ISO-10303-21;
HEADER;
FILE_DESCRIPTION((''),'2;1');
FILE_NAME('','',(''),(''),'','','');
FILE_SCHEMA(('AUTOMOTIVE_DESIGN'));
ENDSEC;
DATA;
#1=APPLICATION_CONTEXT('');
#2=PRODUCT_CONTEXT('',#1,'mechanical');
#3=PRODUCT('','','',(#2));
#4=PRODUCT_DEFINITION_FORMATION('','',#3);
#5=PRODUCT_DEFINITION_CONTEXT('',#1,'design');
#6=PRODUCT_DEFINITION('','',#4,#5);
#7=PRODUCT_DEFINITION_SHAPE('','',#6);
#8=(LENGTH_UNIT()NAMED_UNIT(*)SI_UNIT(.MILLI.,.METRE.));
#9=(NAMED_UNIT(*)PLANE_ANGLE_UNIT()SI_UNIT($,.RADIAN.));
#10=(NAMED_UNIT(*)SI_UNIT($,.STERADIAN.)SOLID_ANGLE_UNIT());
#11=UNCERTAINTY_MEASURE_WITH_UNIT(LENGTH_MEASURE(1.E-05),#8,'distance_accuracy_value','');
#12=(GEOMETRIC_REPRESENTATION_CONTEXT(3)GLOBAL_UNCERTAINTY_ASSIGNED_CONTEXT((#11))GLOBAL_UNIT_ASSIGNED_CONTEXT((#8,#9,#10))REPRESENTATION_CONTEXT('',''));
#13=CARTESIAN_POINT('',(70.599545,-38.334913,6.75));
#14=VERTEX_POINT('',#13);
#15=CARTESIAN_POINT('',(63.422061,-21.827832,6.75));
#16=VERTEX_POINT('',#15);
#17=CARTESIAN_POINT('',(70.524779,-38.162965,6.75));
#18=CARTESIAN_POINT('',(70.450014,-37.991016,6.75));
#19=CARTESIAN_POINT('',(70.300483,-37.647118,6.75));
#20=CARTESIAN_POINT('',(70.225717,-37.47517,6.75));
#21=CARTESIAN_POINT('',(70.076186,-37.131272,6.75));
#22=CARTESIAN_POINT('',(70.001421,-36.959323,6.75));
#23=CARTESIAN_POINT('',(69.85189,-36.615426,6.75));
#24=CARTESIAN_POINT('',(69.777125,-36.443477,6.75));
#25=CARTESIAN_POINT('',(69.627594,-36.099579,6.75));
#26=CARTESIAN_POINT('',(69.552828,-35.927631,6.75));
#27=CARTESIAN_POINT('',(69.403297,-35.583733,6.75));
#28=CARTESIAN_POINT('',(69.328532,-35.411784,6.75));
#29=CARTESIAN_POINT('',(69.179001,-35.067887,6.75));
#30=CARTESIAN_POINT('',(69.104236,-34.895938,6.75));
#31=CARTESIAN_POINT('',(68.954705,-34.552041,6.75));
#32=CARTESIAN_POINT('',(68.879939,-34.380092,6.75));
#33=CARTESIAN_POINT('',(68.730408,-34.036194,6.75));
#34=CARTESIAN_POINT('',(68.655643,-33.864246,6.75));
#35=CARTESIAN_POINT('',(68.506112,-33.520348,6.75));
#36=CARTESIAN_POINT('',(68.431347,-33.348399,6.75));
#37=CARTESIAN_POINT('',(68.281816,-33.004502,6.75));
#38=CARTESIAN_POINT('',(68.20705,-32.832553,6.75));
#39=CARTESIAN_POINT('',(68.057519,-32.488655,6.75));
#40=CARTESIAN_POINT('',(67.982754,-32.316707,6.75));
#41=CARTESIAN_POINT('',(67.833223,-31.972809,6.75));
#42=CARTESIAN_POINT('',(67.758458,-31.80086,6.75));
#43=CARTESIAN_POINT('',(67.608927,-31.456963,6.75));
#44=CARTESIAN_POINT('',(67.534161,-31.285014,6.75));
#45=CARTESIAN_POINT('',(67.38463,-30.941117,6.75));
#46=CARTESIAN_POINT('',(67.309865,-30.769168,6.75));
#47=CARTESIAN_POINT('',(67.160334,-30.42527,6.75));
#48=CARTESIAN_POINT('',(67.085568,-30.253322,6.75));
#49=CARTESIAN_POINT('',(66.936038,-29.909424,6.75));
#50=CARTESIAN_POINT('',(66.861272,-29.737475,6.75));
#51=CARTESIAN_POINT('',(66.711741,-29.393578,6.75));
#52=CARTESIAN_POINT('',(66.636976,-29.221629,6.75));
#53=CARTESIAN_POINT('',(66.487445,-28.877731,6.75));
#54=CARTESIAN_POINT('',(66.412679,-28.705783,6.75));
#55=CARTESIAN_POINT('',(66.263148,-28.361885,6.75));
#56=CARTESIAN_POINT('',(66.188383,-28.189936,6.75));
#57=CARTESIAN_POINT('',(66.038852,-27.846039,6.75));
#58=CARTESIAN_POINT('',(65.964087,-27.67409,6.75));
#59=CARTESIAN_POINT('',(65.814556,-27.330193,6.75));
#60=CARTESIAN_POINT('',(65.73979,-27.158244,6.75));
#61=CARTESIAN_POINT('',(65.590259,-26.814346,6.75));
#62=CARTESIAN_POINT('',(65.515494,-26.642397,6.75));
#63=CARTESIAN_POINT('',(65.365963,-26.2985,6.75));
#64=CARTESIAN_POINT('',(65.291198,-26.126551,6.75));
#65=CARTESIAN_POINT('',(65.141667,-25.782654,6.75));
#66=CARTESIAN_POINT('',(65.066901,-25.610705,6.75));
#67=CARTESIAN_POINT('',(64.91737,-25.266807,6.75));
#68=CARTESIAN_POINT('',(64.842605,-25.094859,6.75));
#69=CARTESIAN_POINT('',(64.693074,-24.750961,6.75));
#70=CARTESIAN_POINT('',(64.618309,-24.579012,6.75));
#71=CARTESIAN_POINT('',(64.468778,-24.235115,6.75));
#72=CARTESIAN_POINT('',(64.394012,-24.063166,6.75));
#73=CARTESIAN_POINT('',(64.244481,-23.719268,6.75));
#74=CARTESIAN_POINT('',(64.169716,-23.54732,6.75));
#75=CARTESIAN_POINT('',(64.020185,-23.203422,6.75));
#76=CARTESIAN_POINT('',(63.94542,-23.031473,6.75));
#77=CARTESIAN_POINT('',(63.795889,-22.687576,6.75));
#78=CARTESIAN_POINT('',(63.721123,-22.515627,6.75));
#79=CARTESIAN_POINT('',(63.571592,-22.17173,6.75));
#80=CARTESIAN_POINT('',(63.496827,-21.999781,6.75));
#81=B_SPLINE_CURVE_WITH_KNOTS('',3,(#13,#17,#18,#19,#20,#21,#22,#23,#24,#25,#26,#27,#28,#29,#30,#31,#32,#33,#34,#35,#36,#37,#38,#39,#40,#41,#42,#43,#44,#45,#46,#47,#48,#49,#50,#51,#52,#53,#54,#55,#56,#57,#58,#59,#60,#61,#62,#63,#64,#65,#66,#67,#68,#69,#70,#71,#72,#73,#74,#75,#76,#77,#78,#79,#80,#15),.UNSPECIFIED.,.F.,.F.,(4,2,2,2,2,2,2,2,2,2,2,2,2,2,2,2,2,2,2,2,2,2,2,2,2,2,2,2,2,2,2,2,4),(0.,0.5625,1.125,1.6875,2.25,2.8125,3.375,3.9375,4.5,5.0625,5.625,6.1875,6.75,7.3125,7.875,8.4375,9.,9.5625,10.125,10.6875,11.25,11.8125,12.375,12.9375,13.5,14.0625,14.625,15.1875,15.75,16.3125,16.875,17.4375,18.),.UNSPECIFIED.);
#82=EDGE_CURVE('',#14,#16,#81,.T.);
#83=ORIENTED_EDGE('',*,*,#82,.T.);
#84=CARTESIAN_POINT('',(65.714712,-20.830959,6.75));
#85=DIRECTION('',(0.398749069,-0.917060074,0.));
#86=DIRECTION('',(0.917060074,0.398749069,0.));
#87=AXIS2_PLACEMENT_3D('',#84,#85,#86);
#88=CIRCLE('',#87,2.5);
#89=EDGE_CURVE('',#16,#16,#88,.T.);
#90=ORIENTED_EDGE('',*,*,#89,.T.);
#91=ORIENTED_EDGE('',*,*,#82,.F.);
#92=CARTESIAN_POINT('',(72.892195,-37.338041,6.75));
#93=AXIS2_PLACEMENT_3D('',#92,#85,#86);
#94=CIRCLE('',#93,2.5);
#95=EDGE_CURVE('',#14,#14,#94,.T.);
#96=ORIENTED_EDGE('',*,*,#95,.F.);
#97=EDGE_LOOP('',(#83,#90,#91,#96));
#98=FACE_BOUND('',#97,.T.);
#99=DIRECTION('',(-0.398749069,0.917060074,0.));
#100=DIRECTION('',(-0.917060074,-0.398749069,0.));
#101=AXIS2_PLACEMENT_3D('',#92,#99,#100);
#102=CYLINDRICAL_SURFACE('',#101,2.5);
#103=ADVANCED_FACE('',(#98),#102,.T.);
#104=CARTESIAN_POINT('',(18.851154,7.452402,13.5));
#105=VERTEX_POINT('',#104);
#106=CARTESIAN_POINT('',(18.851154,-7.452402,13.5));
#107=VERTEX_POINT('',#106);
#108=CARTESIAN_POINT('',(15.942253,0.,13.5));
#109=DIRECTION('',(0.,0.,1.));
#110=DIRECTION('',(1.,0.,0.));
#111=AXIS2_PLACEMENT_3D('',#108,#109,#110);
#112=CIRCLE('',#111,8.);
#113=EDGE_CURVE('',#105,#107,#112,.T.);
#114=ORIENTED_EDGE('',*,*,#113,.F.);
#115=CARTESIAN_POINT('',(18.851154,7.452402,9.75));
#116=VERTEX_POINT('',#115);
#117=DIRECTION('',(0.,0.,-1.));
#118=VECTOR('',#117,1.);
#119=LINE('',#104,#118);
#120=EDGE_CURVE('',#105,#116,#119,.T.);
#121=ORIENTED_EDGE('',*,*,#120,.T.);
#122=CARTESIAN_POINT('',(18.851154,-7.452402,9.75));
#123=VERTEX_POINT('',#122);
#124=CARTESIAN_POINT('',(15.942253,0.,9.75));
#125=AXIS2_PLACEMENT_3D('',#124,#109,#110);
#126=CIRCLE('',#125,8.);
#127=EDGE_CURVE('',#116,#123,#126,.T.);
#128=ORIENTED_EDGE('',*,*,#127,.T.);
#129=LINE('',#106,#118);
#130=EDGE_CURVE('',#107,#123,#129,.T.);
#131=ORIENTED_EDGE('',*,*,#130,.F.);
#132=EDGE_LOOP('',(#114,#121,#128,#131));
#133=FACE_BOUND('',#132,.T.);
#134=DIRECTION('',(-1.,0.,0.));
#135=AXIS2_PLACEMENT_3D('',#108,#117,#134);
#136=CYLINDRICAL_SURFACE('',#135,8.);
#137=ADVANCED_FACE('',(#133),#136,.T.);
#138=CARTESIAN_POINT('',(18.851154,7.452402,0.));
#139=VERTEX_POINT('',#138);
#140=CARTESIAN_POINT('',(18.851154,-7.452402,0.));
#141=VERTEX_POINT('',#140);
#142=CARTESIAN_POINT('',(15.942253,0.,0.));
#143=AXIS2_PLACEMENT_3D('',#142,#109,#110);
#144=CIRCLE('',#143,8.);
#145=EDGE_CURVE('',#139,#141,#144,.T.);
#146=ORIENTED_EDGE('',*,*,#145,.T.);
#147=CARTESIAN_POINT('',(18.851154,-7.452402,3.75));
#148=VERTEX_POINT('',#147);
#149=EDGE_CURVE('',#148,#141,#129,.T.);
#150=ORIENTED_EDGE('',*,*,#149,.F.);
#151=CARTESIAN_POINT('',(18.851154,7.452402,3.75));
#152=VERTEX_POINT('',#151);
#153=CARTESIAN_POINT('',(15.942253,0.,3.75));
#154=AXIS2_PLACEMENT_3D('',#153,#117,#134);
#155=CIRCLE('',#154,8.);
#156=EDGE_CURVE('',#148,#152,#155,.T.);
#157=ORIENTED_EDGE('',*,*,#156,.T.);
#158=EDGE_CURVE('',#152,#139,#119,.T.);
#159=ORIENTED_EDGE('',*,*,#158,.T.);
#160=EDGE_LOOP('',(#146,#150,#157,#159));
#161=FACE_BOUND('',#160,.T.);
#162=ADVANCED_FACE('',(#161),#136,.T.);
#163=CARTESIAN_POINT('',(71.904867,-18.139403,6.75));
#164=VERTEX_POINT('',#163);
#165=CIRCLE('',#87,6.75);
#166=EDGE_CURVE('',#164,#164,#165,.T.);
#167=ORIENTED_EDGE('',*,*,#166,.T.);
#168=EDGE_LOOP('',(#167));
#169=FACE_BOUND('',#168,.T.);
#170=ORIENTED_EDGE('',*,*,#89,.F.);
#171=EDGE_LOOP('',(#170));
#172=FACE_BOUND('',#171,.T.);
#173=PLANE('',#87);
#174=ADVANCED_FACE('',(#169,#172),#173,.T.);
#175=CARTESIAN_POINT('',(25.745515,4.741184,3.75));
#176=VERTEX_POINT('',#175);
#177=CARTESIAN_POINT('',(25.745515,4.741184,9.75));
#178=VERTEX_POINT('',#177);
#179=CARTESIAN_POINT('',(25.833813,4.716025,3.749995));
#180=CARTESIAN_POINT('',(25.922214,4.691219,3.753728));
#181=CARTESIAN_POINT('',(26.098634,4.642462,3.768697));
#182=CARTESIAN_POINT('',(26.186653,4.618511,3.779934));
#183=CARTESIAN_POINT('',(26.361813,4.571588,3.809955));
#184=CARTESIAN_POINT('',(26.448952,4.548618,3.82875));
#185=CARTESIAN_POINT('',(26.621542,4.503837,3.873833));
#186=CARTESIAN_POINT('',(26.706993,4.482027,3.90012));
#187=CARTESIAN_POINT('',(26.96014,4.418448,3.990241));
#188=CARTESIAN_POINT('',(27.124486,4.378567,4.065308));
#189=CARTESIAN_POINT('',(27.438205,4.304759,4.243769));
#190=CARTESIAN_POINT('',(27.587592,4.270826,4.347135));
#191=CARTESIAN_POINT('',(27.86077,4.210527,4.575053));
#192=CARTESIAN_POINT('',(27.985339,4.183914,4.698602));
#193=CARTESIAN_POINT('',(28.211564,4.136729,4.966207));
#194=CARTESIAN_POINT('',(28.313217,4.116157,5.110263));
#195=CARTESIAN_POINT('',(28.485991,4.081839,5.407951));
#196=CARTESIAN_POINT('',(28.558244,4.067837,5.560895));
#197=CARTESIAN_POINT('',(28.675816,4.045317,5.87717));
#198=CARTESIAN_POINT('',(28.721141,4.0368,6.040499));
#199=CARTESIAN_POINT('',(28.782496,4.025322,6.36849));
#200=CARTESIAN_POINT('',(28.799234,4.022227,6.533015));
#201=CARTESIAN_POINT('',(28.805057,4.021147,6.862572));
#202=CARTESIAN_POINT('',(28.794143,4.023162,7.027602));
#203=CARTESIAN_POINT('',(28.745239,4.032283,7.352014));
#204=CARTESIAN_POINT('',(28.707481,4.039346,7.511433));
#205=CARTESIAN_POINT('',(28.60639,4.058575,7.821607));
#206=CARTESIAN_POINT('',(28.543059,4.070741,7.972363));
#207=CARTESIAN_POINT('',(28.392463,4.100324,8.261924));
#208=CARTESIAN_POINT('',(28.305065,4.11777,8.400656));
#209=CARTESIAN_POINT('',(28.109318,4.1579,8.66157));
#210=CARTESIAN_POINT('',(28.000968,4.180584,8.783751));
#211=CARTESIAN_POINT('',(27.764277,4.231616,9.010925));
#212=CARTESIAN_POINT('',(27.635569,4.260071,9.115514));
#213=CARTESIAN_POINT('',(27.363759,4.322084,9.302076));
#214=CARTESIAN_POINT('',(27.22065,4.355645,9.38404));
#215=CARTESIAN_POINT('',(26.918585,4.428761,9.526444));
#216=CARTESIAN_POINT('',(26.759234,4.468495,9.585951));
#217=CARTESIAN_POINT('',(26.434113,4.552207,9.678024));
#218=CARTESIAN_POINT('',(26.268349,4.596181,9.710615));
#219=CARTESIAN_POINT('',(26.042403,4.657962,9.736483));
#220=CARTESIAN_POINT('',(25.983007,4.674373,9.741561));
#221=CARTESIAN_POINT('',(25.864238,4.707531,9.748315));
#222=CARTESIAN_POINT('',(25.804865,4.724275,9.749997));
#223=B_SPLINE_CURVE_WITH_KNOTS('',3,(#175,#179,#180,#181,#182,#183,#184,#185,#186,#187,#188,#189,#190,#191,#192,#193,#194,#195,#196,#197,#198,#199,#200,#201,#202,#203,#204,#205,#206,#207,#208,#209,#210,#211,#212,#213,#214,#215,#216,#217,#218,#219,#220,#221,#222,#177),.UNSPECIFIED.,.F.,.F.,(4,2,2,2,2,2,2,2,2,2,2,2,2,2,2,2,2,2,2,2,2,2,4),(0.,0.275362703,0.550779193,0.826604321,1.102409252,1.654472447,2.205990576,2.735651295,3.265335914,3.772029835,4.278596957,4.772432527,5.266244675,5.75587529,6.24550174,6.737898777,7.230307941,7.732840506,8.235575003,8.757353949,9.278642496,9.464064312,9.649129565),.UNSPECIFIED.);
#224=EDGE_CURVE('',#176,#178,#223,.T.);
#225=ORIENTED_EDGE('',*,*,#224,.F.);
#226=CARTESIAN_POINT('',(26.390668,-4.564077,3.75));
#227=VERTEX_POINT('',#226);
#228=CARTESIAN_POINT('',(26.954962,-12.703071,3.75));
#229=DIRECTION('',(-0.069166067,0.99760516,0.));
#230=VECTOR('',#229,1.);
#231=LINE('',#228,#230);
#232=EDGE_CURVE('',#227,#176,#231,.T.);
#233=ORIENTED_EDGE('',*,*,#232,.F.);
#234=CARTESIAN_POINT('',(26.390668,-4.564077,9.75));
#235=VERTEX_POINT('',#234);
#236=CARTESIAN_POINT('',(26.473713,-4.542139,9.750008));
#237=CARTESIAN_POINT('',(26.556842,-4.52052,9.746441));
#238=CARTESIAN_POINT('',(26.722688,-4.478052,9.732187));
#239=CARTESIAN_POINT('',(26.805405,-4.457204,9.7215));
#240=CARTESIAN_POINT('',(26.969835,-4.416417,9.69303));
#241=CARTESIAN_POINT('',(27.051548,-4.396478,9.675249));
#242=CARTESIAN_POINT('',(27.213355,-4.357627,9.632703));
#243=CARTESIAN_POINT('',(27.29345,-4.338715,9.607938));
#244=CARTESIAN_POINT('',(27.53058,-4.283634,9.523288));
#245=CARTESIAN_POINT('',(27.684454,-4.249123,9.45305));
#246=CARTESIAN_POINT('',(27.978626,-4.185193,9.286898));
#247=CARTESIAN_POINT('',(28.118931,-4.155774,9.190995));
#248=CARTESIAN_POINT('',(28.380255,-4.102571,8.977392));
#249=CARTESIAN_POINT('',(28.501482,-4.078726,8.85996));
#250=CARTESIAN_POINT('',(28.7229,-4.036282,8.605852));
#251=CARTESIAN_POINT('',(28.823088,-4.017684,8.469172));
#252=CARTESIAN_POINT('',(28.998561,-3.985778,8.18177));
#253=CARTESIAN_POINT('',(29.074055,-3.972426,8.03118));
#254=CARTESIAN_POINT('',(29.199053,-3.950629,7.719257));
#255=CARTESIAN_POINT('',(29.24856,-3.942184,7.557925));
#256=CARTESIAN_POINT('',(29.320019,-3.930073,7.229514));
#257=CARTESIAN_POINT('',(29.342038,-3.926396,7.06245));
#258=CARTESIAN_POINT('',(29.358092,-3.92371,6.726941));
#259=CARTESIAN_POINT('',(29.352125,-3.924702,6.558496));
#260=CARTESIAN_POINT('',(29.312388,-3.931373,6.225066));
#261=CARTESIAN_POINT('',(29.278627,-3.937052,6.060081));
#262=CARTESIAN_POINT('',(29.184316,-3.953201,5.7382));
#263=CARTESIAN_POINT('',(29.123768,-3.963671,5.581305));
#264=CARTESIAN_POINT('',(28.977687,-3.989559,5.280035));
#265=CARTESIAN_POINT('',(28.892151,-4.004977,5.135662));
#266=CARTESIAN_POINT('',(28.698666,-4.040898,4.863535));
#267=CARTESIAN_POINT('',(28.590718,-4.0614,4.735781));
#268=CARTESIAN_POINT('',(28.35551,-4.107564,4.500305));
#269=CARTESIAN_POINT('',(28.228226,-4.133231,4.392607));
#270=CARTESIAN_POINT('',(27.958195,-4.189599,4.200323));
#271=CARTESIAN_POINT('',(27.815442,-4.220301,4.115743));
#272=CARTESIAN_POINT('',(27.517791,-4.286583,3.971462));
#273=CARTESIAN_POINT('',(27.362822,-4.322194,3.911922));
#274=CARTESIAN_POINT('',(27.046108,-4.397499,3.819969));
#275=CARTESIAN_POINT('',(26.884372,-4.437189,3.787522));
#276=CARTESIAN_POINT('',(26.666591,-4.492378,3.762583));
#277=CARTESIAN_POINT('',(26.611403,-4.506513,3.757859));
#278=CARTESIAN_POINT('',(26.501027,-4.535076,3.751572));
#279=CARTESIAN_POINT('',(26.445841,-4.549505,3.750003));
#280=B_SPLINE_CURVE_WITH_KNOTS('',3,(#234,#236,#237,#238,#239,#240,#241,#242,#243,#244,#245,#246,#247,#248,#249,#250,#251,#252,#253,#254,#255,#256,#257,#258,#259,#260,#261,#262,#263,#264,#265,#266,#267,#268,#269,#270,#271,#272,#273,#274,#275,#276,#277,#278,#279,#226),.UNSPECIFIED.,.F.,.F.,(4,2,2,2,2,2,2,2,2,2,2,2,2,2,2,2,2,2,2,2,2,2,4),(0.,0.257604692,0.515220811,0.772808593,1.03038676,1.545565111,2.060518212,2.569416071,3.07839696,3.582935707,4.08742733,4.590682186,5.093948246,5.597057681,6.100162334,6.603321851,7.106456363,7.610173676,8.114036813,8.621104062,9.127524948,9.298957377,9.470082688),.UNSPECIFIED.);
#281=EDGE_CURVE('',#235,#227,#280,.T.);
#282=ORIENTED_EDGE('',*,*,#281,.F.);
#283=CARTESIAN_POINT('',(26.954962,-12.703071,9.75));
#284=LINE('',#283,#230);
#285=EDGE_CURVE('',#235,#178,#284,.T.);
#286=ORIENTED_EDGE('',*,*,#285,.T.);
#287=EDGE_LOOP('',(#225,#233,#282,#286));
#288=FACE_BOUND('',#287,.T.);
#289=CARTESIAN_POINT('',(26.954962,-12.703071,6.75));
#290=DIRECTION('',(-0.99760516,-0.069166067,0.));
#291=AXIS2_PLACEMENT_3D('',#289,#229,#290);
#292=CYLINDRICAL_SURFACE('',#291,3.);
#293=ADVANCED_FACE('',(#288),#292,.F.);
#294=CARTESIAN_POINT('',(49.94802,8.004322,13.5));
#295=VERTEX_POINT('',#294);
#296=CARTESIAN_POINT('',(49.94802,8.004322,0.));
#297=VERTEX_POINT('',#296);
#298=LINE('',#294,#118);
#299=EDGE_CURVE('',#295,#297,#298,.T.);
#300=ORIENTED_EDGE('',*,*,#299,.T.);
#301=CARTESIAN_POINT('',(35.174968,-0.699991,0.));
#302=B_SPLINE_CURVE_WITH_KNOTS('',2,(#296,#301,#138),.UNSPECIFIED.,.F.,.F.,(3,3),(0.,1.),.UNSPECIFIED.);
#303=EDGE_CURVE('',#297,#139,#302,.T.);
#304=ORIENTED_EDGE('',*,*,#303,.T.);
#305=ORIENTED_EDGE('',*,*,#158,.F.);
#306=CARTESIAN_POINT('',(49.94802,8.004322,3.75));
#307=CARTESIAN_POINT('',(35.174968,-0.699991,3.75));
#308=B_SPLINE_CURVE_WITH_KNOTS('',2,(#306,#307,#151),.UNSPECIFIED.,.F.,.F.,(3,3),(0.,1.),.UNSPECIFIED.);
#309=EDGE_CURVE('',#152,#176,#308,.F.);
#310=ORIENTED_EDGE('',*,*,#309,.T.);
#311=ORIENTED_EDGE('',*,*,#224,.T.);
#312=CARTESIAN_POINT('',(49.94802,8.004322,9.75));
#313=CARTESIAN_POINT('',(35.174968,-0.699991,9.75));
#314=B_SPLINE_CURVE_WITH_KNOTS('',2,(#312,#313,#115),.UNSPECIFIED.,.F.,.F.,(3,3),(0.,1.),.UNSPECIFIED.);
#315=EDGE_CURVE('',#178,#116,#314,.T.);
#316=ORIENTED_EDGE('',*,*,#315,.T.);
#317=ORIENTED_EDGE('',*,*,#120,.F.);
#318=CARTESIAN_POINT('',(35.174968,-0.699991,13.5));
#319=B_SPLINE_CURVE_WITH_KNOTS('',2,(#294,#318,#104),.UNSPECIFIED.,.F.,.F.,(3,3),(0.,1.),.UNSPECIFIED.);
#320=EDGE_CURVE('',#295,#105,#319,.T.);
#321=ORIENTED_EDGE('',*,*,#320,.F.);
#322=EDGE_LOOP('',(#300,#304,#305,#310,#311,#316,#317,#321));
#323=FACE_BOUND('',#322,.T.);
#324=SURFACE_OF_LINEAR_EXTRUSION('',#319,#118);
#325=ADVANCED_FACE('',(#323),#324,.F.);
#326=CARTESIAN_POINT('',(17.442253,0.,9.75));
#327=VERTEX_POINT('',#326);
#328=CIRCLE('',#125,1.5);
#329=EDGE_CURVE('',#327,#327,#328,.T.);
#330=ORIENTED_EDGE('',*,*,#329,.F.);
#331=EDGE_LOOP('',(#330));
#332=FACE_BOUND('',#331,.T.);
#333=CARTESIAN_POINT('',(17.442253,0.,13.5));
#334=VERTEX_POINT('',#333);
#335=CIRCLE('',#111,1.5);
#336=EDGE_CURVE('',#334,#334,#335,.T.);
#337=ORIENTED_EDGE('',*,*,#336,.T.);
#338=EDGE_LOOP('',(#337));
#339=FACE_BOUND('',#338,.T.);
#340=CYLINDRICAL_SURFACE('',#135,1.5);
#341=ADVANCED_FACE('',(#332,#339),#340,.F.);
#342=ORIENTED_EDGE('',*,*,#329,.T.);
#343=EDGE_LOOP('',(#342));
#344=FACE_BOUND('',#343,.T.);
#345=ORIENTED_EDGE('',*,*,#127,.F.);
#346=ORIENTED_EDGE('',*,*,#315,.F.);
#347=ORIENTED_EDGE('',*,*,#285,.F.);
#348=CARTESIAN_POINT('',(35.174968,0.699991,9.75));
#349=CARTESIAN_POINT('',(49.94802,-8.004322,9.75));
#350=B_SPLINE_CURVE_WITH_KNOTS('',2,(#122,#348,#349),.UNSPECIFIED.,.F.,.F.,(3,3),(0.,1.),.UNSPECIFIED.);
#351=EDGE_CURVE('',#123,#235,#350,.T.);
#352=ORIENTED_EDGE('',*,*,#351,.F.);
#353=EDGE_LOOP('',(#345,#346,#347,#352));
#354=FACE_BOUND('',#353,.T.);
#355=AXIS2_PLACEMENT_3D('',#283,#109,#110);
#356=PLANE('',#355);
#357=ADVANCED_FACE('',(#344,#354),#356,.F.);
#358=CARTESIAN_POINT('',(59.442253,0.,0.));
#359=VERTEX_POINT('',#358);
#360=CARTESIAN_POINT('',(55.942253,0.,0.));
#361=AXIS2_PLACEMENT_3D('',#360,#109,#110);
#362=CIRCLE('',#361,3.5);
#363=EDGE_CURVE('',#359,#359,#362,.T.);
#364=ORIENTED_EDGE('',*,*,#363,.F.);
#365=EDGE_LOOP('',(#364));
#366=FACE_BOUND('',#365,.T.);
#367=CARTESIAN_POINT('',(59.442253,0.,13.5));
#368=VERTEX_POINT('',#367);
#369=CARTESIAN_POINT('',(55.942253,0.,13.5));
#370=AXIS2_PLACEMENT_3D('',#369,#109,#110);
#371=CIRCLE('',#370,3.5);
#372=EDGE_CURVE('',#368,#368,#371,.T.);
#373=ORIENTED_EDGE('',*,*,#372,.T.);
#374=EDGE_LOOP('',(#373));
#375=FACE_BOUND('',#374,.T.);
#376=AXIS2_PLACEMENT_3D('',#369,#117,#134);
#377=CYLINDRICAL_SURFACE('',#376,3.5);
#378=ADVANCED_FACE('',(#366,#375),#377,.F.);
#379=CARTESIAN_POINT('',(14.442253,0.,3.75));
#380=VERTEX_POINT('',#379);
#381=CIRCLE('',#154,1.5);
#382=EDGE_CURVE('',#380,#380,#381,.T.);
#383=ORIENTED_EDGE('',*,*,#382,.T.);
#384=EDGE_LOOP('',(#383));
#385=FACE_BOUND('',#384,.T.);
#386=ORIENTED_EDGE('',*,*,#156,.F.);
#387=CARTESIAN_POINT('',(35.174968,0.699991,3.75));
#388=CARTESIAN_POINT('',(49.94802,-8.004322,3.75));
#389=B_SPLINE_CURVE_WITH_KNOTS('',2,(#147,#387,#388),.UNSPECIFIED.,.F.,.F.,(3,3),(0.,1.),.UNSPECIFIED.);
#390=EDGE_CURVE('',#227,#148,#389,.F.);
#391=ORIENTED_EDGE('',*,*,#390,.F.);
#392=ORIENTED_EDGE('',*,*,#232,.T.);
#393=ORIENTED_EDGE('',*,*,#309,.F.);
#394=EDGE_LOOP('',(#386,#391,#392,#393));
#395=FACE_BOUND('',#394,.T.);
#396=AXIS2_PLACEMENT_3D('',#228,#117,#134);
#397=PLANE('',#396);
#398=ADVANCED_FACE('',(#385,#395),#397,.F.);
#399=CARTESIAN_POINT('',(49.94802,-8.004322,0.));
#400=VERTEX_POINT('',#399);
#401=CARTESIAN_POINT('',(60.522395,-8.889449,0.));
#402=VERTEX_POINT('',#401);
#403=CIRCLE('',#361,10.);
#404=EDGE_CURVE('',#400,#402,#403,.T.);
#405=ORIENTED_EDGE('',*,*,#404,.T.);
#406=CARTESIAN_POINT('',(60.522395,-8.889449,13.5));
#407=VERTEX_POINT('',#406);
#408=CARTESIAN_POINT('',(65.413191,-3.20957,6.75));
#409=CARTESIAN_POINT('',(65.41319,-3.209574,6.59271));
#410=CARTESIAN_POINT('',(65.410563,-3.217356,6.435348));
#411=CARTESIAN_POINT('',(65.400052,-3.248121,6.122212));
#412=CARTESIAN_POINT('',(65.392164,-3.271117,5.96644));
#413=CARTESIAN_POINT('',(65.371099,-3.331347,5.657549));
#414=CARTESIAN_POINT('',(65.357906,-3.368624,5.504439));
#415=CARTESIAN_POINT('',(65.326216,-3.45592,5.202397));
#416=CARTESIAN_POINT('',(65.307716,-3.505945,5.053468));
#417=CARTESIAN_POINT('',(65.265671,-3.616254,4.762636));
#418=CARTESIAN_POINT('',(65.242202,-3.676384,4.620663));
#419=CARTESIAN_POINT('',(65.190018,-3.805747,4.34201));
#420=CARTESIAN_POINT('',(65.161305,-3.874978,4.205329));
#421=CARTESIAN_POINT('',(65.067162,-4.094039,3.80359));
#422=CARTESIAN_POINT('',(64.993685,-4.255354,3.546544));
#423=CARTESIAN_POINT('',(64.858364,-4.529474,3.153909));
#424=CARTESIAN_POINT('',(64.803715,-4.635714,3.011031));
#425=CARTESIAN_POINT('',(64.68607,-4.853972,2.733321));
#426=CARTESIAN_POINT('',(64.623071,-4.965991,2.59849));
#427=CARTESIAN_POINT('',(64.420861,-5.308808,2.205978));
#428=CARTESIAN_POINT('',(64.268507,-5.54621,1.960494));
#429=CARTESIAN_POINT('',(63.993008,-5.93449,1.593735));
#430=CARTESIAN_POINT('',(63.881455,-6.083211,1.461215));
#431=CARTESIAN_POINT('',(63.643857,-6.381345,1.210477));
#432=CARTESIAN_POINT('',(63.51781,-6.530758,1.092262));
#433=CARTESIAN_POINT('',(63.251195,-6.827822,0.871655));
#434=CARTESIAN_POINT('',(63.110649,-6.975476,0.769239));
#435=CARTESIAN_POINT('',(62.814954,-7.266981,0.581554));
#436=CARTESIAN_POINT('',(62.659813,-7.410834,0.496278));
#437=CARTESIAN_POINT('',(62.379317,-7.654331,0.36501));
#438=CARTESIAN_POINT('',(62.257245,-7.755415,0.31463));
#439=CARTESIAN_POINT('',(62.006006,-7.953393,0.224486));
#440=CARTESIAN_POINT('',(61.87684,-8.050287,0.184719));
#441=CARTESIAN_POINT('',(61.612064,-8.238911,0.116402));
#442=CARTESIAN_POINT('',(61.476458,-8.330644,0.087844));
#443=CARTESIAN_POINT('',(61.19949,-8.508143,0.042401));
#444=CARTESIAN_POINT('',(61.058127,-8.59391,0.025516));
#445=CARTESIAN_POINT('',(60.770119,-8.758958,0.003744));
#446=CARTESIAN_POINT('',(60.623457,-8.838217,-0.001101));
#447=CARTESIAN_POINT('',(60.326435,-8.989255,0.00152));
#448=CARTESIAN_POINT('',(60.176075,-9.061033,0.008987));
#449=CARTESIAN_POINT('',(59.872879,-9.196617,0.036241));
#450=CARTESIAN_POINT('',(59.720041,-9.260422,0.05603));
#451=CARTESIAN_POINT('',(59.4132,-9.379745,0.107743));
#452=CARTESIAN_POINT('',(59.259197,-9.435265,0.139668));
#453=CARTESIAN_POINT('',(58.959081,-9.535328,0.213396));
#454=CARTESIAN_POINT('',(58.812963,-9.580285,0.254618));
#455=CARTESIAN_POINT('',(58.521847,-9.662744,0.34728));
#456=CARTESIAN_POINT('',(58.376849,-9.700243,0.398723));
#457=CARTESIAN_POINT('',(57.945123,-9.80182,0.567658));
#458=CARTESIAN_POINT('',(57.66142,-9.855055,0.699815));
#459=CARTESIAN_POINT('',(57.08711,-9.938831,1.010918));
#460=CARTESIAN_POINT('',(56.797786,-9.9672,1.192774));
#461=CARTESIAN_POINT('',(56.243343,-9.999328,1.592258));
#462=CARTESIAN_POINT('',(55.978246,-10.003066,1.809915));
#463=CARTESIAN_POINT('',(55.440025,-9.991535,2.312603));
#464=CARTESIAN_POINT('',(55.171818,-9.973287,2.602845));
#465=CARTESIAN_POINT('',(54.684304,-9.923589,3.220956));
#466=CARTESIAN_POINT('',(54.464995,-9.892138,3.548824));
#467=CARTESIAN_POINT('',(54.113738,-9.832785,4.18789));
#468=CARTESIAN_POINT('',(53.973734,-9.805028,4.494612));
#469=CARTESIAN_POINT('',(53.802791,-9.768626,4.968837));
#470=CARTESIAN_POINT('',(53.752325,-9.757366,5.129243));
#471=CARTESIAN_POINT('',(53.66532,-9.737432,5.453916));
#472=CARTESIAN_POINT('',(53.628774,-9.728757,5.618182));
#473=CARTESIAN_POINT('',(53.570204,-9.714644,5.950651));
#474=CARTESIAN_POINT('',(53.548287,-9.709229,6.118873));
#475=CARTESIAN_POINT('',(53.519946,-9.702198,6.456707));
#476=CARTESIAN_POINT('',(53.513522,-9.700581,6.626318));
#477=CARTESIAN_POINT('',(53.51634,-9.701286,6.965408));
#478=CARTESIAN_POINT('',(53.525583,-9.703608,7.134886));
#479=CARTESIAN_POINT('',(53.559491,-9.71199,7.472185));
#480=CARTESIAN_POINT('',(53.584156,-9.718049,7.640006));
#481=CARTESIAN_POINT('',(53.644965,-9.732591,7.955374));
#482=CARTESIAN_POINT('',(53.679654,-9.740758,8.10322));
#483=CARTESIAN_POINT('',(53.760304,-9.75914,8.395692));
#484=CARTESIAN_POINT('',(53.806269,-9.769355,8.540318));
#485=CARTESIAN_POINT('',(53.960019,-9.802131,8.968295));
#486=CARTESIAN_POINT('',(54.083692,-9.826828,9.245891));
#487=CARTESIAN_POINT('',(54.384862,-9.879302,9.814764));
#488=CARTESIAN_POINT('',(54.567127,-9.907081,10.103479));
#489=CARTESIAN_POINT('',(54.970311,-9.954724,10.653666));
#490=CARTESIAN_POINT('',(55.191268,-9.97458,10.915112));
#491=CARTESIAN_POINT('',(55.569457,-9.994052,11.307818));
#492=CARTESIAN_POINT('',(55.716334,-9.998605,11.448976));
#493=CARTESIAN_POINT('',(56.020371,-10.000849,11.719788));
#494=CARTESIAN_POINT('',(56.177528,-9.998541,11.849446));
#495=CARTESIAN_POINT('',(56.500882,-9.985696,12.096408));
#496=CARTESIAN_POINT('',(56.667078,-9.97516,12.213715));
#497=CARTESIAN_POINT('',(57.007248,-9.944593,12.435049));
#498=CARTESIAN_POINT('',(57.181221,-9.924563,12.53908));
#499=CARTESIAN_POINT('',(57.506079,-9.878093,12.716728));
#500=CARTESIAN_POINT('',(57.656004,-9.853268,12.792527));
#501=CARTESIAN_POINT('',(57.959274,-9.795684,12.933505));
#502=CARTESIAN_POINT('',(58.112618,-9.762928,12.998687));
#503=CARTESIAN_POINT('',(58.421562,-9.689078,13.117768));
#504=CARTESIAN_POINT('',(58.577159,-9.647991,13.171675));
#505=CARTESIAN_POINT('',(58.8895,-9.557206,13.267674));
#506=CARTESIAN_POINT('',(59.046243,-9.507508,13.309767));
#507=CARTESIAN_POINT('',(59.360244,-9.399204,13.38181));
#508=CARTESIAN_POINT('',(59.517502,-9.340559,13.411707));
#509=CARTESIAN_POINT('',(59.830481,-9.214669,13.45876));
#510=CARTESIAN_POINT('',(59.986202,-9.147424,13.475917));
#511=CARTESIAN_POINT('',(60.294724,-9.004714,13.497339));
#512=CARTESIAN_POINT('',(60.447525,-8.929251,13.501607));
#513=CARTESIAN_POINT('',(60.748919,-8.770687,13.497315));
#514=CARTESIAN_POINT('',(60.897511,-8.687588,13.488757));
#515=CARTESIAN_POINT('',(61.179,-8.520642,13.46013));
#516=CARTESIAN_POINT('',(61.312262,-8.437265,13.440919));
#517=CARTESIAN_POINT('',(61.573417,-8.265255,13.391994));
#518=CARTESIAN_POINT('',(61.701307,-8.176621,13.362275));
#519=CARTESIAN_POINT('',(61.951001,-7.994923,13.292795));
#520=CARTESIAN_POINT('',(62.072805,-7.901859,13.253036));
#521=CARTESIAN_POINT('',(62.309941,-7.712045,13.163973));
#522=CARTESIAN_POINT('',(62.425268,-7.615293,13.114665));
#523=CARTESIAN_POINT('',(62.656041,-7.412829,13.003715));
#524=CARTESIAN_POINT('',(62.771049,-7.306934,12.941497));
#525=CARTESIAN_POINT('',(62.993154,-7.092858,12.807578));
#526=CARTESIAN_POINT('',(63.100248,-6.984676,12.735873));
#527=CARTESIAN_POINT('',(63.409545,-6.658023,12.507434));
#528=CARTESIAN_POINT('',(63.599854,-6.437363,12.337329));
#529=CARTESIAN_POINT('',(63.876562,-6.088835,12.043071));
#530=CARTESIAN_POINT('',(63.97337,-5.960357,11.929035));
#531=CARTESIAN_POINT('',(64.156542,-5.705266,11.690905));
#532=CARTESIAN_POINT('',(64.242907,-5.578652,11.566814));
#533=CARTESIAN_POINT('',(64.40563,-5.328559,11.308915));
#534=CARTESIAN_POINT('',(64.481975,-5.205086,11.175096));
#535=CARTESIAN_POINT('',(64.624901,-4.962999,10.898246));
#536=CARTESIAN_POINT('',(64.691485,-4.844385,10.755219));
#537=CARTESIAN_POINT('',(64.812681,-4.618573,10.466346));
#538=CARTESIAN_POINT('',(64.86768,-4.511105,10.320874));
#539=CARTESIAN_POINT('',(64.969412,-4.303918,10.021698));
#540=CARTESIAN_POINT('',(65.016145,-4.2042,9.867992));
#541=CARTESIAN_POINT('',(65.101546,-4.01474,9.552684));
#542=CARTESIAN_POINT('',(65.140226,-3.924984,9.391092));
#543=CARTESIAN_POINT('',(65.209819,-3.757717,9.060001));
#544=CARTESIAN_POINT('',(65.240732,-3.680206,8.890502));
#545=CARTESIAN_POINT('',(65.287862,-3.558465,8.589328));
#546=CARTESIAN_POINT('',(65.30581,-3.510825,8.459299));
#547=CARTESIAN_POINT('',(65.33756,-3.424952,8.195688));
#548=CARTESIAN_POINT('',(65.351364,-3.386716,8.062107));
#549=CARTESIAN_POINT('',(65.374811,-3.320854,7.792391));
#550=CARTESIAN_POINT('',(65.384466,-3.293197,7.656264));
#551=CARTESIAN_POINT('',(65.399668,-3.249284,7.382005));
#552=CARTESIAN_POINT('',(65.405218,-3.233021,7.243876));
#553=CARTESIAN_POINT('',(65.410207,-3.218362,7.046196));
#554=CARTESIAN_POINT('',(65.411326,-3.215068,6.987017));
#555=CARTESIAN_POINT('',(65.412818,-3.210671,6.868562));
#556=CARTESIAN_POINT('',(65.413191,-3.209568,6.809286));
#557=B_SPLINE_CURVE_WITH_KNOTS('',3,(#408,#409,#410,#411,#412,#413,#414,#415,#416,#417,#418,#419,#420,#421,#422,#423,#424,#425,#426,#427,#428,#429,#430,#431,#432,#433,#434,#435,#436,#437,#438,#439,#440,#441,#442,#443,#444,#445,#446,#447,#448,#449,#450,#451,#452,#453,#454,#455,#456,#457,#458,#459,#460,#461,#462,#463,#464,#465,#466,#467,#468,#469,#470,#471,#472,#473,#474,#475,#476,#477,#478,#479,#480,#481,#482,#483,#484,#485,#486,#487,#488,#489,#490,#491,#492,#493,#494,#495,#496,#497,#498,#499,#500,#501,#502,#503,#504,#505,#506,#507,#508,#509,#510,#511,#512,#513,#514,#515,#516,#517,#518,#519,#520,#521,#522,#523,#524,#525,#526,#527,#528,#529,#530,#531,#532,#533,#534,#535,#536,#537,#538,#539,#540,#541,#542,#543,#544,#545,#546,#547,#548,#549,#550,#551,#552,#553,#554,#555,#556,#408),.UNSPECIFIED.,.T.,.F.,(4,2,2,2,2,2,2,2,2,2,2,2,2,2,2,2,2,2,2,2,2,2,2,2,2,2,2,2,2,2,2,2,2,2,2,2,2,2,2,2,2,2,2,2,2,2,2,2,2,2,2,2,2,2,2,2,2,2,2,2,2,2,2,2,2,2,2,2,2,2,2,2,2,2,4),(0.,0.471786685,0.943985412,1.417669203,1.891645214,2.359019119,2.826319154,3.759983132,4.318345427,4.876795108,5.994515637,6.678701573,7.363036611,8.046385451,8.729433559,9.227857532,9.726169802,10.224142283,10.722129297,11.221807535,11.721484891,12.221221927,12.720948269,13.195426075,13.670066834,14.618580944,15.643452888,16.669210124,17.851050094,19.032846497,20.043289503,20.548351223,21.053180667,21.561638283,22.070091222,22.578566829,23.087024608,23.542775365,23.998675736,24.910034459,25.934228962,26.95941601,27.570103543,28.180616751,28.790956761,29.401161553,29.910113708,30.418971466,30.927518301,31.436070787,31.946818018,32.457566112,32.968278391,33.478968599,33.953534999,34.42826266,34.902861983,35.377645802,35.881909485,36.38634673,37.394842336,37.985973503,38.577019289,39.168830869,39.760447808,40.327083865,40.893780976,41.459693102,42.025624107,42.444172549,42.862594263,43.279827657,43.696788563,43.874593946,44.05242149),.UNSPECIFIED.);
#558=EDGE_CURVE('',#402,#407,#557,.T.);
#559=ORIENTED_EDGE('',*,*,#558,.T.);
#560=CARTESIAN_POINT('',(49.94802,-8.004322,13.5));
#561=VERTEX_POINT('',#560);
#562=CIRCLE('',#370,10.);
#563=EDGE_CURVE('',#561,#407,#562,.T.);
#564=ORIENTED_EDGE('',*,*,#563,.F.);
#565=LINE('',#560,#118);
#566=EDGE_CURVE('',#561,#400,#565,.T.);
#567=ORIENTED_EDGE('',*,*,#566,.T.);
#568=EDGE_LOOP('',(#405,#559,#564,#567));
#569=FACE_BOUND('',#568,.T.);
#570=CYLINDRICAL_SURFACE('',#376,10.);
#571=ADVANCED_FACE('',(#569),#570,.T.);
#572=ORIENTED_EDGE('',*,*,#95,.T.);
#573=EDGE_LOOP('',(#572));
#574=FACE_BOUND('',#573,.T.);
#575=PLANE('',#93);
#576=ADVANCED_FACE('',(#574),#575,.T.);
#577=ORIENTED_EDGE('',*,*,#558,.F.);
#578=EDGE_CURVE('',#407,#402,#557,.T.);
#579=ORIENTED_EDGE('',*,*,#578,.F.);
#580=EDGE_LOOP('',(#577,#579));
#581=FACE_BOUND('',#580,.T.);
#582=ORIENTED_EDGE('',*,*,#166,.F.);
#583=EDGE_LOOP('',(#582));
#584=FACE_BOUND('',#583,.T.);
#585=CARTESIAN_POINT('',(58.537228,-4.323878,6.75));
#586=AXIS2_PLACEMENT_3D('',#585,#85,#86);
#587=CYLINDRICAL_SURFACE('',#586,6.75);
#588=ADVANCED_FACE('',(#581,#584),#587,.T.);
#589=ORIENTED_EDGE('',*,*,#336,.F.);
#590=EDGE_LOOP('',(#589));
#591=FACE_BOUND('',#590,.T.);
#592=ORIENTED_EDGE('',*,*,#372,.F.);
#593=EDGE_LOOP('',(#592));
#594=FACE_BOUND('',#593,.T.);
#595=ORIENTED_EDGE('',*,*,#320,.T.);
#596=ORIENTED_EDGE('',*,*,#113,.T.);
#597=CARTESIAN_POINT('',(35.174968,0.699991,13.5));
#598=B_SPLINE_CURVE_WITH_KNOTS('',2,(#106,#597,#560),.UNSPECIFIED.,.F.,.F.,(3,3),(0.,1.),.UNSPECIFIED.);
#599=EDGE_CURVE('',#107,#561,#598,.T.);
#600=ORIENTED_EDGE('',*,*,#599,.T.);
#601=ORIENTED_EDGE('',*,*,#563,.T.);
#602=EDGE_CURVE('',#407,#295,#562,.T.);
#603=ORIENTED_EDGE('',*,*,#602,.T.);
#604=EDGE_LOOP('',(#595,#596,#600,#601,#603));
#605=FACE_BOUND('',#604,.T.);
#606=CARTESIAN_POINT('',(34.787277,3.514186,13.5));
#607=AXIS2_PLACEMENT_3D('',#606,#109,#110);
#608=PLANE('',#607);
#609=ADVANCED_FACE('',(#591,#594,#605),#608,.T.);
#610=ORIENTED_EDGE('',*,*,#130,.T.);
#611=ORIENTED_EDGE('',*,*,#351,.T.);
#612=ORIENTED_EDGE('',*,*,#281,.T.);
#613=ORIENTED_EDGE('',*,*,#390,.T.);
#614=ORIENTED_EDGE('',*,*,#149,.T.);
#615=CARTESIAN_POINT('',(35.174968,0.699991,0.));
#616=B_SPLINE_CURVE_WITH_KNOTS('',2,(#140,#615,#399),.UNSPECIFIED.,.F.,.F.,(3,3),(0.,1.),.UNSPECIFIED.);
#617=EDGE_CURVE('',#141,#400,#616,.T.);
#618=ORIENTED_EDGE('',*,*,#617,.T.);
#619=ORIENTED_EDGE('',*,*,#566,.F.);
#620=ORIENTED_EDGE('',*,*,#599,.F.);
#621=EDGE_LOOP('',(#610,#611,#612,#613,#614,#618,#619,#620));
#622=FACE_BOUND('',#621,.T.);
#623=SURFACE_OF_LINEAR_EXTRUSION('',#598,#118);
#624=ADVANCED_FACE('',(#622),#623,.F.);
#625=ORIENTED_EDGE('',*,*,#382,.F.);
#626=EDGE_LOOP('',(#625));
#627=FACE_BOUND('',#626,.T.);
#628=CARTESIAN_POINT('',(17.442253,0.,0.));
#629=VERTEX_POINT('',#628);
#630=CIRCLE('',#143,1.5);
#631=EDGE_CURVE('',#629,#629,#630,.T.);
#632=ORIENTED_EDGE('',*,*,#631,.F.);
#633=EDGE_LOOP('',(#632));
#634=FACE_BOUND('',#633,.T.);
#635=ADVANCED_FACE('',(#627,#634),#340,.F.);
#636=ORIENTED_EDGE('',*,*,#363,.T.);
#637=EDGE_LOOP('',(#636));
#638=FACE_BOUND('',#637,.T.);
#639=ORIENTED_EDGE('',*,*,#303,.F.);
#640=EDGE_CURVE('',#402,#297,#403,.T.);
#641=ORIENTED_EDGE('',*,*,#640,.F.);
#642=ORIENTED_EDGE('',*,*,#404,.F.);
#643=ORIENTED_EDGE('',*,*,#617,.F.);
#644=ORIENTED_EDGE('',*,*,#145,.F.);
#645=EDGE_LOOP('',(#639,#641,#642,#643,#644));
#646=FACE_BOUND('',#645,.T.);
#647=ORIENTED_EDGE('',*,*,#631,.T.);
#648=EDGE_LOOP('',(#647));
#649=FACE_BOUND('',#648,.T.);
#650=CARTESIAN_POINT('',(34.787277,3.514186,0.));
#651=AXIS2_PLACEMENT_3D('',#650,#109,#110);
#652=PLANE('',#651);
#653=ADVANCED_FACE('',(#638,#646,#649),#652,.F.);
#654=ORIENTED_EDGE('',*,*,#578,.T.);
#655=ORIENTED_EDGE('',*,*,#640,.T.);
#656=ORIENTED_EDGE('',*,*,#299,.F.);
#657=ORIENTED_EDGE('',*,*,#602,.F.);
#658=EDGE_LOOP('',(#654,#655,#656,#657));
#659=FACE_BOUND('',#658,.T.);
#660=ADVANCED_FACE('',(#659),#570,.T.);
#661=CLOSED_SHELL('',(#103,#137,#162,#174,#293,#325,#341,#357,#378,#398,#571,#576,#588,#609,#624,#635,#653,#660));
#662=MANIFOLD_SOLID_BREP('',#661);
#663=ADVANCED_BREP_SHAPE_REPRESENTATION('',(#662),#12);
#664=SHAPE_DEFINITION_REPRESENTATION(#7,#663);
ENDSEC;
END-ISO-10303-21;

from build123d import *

# Parameters (mm, degrees)
SKETCH1_R                = 3.5
SKETCH1_R_2              = 1.5
BOSS_EXTRUDE2_DEPTH      = 13.5
CUT_EXTRUDE4_DEPTH       = 70.616522229
CUT_EXTRUDE4_DEPTH_BACK  = 70.616522229
BOSS_EXTRUDE3_DEPTH      = 13
BOSS_EXTRUDE3_DEPTH_BACK = 5
SKETCH4_R                = 6.75
SKETCH7_R                = 1.5
SKETCH7_R_2              = 0.7
BOSS_EXTRUDE4_DEPTH      = 10
SKETCH9_R                = 2.5
BOSS_EXTRUDE5_DEPTH      = 18


with BuildPart() as part:
    # Sketch1 → Boss-Extrude2 (new body)
    with BuildSketch(Plane.XY):
        with BuildLine():
            ThreePointArc((49.948019617, -8.004321858), (65.942252812, 0), (49.948019617, 8.004321858))
            add(Edge.make_bspline(
                [(49.948019617, 8.004321858), (35.174968068, -0.699990604), (18.85115398, 7.452401894)],
                knots=[0, 0, 0, 1, 1, 1], degree=2))
            ThreePointArc((18.85115398, 7.452401894), (7.942252812, 0), (18.85115398, -7.452401894))
            add(Edge.make_bspline(
                [(49.948019617, -8.004321858), (35.174968068, 0.699990604), (18.85115398, -7.452401894)],
                knots=[0, 0, 0, 1, 1, 1], degree=2))
        make_face()
        with Locations((55.942252812, 0)):
            Circle(SKETCH1_R, mode=Mode.SUBTRACT)
        with Locations((15.942252812, 0)):
            Circle(SKETCH1_R_2, mode=Mode.SUBTRACT)
    extrude(amount=BOSS_EXTRUDE2_DEPTH)

    # Sketch3 → Cut-Extrude4 (cut, two sides: drawn at the far end of the back side and taken through both)
    with BuildSketch(Plane(origin=(-0.424036019, 6.116012378, 0), x_dir=(0.9976051599790391, 0.06916606670323111, 0), z_dir=(-0.06916606670323111, 0.9976051599790391, 0)).offset(-CUT_EXTRUDE4_DEPTH_BACK)):
        with BuildLine():
            Line((26.011787518, -9.75), (7.904073667, -9.75))
            Line((7.904073667, -9.75), (7.904073667, -3.75))
            Line((7.904073667, -3.75), (26.011787518, -3.75))
            ThreePointArc((26.011787518, -3.75), (29.011787518, -6.75), (26.011787518, -9.75))
        make_face()
    extrude(amount=CUT_EXTRUDE4_DEPTH + CUT_EXTRUDE4_DEPTH_BACK, mode=Mode.SUBTRACT)

    # Sketch4 → Boss-Extrude3 (add, two sides: drawn at the far end of the back side and taken through both)
    with BuildSketch(Plane(origin=(12.882354757, -29.627387579, 0), x_dir=(0, 0, -1), z_dir=(0.39874906892524703, -0.9170600743851237, 0)).offset(-BOSS_EXTRUDE3_DEPTH_BACK)):
        with Locations(Location((-6.75, 51.958012611, 0), (0, 0, 90))):
            Circle(SKETCH4_R)
    extrude(amount=BOSS_EXTRUDE3_DEPTH + BOSS_EXTRUDE3_DEPTH_BACK)

    # Sketch7 → Boss-Extrude4 (add)
    with BuildSketch(Plane(origin=(18.066092653, -41.549168546, 0), x_dir=(0.9170600743851237, 0.39874906892524703, 0), z_dir=(0.39874906892524703, -0.9170600743851237, 0))):
        with Locations((51.958012611, 6.75)):
            Circle(SKETCH7_R)
        with Locations((51.958012611, 6.75)):
            Circle(SKETCH7_R_2, mode=Mode.SUBTRACT)
    extrude(amount=BOSS_EXTRUDE4_DEPTH)

    # Sketch9 → Boss-Extrude5 (add)
    with BuildSketch(Plane(origin=(18.066092653, -41.549168546, 0), x_dir=(0.9170600743851237, 0.39874906892524703, 0), z_dir=(0.39874906892524703, -0.9170600743851237, 0))):
        with Locations(Location((51.958012611, 6.75, 0), (0, 0, 180))):
            Circle(SKETCH9_R)
    extrude(amount=BOSS_EXTRUDE5_DEPTH)


solid = part.part
